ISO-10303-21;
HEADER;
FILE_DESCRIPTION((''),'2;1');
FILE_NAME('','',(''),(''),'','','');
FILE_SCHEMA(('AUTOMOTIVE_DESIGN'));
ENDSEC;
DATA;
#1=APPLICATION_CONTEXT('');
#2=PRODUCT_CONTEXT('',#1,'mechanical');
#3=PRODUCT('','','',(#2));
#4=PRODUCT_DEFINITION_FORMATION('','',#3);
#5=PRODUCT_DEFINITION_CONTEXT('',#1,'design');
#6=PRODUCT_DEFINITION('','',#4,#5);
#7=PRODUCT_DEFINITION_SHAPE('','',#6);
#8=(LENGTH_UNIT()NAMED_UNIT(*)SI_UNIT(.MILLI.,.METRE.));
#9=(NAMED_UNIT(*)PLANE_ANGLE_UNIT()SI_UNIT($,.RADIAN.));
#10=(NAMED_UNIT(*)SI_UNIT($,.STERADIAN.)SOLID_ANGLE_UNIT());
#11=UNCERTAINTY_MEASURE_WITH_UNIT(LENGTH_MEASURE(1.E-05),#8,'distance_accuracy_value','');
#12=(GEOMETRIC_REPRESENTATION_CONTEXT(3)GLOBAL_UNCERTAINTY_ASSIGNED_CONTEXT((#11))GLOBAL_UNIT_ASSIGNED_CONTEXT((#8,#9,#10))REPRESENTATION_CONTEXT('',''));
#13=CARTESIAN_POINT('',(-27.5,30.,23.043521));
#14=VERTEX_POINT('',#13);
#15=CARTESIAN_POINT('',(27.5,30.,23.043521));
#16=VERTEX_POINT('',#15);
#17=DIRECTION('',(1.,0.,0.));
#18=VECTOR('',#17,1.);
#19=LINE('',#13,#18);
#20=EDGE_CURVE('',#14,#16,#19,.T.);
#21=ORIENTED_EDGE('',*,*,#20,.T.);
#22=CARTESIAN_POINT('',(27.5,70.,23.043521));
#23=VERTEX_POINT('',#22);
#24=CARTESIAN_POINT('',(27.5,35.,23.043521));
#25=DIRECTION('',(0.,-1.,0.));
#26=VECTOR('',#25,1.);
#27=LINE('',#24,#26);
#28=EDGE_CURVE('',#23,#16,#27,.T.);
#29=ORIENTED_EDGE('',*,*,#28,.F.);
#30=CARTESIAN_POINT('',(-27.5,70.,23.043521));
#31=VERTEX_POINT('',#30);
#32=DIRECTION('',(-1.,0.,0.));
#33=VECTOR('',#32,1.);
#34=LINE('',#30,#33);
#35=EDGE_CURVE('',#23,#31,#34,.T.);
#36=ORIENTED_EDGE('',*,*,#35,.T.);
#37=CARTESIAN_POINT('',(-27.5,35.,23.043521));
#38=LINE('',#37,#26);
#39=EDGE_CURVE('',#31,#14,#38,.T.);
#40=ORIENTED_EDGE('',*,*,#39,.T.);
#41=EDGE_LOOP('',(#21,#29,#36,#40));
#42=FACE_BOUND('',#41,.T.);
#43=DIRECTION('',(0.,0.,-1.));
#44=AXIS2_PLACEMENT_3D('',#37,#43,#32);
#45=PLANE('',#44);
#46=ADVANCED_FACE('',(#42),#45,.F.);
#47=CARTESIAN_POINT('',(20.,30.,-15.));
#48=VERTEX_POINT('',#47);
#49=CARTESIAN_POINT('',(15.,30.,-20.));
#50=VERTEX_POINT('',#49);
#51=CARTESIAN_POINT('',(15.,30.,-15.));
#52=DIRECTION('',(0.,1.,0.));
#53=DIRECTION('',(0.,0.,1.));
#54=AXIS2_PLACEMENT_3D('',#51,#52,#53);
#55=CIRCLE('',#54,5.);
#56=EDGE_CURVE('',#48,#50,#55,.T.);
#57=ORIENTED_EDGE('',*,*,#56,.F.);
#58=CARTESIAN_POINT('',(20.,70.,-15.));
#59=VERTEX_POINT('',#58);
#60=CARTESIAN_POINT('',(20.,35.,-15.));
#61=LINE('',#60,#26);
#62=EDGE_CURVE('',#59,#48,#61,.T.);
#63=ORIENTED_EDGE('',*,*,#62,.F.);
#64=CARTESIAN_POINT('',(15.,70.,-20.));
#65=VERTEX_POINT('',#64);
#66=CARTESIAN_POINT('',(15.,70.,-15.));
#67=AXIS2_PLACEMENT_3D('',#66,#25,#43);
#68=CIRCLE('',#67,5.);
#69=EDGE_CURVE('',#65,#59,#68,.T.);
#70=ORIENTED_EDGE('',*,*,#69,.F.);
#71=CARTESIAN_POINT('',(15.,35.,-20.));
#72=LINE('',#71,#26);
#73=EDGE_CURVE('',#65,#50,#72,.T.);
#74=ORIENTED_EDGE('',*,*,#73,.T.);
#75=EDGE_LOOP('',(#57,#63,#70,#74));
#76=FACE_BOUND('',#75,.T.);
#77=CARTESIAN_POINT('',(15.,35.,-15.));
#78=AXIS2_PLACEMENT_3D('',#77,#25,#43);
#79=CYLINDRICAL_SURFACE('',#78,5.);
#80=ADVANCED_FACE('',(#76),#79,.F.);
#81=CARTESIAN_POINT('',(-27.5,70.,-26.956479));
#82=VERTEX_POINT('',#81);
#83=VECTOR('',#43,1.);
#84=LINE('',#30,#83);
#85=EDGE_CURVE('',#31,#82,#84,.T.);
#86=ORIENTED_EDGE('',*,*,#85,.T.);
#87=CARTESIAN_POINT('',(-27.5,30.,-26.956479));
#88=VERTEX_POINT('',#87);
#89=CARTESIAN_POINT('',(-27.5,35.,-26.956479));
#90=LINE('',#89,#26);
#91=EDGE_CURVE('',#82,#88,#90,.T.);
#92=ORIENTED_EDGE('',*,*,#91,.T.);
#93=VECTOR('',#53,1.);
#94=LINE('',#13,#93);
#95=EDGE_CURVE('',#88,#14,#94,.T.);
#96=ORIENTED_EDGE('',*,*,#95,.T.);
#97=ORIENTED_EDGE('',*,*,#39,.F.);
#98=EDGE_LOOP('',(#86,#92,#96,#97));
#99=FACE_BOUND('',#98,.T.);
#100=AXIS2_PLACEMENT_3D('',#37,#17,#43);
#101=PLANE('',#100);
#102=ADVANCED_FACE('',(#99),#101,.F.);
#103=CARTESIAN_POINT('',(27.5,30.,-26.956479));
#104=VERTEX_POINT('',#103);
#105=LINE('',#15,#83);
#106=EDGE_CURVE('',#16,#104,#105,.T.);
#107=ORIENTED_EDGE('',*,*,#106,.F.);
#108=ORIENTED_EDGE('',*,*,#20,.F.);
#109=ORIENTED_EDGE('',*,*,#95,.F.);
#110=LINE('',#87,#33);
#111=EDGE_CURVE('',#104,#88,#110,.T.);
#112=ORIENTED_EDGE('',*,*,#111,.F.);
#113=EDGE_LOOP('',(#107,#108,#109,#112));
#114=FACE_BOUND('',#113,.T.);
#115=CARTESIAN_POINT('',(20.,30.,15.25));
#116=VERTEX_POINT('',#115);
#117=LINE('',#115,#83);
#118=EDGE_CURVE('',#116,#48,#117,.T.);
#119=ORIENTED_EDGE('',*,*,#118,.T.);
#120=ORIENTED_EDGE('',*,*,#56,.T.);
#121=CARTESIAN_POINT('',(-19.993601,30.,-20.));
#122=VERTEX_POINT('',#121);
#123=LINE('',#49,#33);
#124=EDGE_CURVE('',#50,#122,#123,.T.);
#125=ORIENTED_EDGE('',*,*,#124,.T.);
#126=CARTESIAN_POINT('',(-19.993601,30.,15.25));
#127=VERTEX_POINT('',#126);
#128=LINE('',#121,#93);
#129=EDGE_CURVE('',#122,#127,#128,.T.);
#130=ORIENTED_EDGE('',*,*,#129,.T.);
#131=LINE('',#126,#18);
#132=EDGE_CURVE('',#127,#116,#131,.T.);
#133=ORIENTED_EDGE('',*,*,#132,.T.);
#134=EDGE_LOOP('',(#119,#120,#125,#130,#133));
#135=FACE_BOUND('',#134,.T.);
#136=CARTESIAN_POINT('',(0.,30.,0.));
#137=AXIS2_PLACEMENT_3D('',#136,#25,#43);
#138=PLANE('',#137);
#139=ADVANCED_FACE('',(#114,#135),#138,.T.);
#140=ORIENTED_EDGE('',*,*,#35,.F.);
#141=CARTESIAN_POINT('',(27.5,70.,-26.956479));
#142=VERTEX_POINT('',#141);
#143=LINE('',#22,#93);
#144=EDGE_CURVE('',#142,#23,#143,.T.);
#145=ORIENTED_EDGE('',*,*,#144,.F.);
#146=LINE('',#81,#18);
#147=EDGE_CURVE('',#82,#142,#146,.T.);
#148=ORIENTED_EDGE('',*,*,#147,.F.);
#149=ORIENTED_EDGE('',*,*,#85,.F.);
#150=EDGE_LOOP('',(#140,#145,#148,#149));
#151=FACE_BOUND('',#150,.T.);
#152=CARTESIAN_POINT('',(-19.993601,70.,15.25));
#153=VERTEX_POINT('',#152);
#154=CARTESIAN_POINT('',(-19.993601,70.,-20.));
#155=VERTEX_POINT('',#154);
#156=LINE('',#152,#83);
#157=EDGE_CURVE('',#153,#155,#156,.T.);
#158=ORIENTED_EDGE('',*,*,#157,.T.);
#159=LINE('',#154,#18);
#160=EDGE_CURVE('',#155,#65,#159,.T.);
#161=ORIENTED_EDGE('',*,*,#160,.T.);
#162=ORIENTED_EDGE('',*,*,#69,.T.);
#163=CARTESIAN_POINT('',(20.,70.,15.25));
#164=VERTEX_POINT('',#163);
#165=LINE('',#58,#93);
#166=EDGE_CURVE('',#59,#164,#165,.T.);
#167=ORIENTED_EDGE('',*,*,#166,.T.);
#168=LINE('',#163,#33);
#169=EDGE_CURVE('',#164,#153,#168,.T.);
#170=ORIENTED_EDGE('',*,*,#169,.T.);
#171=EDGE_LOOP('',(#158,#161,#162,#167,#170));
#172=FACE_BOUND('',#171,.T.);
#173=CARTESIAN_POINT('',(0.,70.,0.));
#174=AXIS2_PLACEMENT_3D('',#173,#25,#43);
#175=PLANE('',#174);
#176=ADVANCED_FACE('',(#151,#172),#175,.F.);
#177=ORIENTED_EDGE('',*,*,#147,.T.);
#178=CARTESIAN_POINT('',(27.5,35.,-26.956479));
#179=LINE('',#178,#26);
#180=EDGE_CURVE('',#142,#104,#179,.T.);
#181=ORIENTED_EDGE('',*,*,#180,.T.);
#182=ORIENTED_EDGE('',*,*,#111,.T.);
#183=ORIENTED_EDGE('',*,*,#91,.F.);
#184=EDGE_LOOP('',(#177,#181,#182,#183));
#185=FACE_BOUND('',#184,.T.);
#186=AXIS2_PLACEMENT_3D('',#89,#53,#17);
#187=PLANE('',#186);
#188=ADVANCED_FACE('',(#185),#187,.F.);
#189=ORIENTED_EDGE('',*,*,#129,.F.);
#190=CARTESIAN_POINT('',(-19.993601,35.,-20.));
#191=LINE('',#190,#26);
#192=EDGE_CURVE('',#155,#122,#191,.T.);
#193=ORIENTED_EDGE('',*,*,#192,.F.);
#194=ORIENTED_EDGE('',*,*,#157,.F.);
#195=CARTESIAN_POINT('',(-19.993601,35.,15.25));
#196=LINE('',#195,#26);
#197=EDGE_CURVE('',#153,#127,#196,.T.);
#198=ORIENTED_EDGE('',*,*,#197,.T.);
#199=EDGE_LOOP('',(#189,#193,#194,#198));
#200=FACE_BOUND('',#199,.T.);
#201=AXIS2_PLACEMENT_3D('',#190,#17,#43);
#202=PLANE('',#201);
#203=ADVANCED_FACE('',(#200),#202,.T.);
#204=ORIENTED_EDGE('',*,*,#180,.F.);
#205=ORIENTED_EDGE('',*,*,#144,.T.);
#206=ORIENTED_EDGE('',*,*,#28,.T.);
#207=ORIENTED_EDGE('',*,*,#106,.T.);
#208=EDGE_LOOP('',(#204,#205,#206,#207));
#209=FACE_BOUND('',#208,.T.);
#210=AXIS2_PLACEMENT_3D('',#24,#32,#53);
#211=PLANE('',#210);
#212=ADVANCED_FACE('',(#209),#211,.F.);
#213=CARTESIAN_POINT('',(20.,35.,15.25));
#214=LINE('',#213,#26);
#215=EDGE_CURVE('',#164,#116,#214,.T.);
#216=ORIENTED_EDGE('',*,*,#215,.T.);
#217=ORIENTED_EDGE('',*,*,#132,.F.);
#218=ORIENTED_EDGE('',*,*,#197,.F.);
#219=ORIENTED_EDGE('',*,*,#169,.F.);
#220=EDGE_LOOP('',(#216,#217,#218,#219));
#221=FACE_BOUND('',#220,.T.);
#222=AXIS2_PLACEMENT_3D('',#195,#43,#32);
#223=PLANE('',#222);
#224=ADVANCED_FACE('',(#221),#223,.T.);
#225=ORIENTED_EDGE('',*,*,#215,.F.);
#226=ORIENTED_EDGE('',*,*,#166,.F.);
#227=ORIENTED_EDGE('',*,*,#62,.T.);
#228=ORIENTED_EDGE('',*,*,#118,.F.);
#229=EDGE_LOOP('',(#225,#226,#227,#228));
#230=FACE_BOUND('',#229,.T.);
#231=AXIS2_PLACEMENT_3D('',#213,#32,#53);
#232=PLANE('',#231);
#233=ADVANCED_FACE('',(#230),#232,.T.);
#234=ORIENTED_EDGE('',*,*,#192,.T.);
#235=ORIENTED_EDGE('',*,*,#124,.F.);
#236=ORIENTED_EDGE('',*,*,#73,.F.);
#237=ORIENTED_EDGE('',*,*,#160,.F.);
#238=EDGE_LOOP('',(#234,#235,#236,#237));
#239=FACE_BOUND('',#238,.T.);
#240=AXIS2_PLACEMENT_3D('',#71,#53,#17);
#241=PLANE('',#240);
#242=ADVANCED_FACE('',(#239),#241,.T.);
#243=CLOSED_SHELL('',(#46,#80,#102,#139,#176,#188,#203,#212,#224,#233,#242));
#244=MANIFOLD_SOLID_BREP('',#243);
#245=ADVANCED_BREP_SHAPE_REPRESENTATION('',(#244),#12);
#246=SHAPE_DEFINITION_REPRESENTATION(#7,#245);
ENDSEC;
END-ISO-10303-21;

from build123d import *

# Parameters (mm, degrees)
CROQUIS1_R                              = 15.25
CROQUIS1_R_2                            = 2.125
SOPORTE_CAJA_REDUCTORA_DEPTH            = 20
CROQUIS3_R                              = 2.125
CORTAR_EXTRUIR1_DEPTH                   = 51.423828692
REDONDEO1_R                             = 5
BOSS_EXTRUDE1_DEPTH                     = 20
CUT_EXTRUDE1_REACH                      = 55.852
SKETCH2_R                               = 1.625
CUT_EXTRUDE2_DEPTH                      = 2
SKETCH4_R                               = 1.625
CUT_EXTRUDE3_DEPTH                      = 63.291652731
CUT_EXTRUDE4_START                      = -4.5
CUT_EXTRUDE4_DEPTH                      = 2
CROQUIS6_W                              = 4.75
CROQUIS6_H                              = 4.75
CORTAR_EXTRUIR17_DEPTH                  = 42.231056256
CROQUIS7_W                              = 60
CROQUIS7_H                              = 20
CORTAR_EXTRUIR18_DEPTH                  = 51.423828692
SALIENTE_EXTRUIR2_DEPTH                 = 49
SOPORTE_START                           = -15
SOPORTE_MOTOR_DEPTH                     = 15
CROQUIS12_R                             = 2.125
AGUJEROS_DE_SUJECION_A_BASE_DEPTH       = 84.087679592
TUERCA_START                            = -4
TUERCA_AGUJERO_DE_SUJECION_A_BASE_DEPTH = 10
SALIENTE_EXTRUIR4_DEPTH                 = 15
CORTAR_EXTRUIR19_DEPTH                  = 25
CROQUIS14_W                             = 50
CROQUIS14_H                             = 118
CORTAR_EXTRUIR22_DEPTH                  = 146.556045907
CROQUIS15_W                             = 10
CROQUIS15_H                             = 7
CORTAR_EXTRUIR23_DEPTH                  = 42.231056256
CORTAR_EXTRUIR24_DEPTH                  = 42.231056256
CROQUIS18_W                             = 40
CROQUIS18_H                             = 10
CORTAR_EXTRUIR25_DEPTH                  = 44.27311521
SALIENTE_EXTRUIR5_DEPTH                 = 10
CROQUIS20_R                             = 1
CORTAR_EXTRUIR26_DEPTH                  = 49.229270158
CORTAR_EXTRUIR27_REACH                  = 62.959
CORTAR_EXTRUIR27_END_RADIUS             = 15.25
CROQUIS21_R                             = 1.625
CROQUIS22_R                             = 2.125
CROQUIS22_R_2                           = 1
SALIENTE_EXTRUIR6_DEPTH                 = 10
CROQUIS23_R                             = 1.625
CORTAR_EXTRUIR28_DEPTH                  = 52.269508521
CORTAR_EXTRUIR29_START                  = -3
CORTAR_EXTRUIR29_DEPTH                  = 10
SALIENTE_EXTRUIR7_DEPTH                 = 10
CORTAR_EXTRUIR30_REACH                  = 72.235
CROQUIS27_R                             = 1.625
CORTAR_EXTRUIR31_REACH                  = 75.235
CORTAR_EXTRUIR31_START                  = -3
CORTAR_EXTRUIR32_REACH                  = 58.612
CROQUIS29_R                             = 1.625
CORTAR_EXTRUIR33_REACH                  = 61.112
CORTAR_EXTRUIR33_START                  = -2.5
CROQUIS35_W                             = 13.305418987
CROQUIS35_H                             = 6.826864192
CORTAR_EXTRUIR34_DEPTH                  = 63.931555098
CORTAR_EXTRUIR34_DEPTH_BACK             = 63.931555098
CORTAR_EXTRUIR35_START                  = -3
CORTAR_EXTRUIR35_DEPTH                  = 10
SALIENTE_EXTRUIR8_DEPTH                 = 10
SALIENTE_EXTRUIR9_DEPTH                 = 13
SALIENTE_EXTRUIR10_DEPTH                = 3
CROQUIS40_W                             = 106.583537839
CROQUIS40_H                             = 47.391515964
CORTAR_EXTRUIR36_DEPTH                  = 80.887064817
CORTAR_EXTRUIR36_DEPTH_BACK             = 80.887064817
CORTAR_EXTRUIR37_DEPTH                  = 67.2524009
CORTAR_EXTRUIR37_DEPTH_BACK             = 67.2524009
CORTAR_EXTRUIR38_DEPTH                  = 79.704784639
CORTAR_EXTRUIR38_DEPTH_BACK             = 79.704784639
SALIENTE_EXTRUIR11_DEPTH                = 10
CORTAR_EXTRUIR39_DEPTH                  = 63.9908649
CROQUIS45_W                             = 31.470301378
CROQUIS45_H                             = 10
CROQUIS45_R                             = 1.625
SALIENTE_EXTRUIR12_DEPTH                = 2.5
SALIENTE_EXTRUIR13_DEPTH                = 10
CORTAR_EXTRUIR40_START                  = -2
CROQUIS47_R                             = 1.625
CORTAR_EXTRUIR40_DEPTH                  = 10
CORTAR_EXTRUIR41_START                  = -12
CROQUIS48_R                             = 1.625
CORTAR_EXTRUIR41_DEPTH                  = 12
CROQUIS49_W                             = 34.796066513
CROQUIS49_H                             = 42.211026982
CORTAR_EXTRUIR42_DEPTH                  = 52.795622989
CORTAR_EXTRUIR42_DEPTH_BACK             = 52.795622989
CROQUIS51_R                             = 15.25
CROQUIS51_R_2                           = 14.25
SALIENTE_EXTRUIR14_DEPTH                = 10
CORTAR_EXTRUIR43_DEPTH                  = 10
CORTAR_EXTRUIR44_DEPTH                  = 10
CORTAR_EXTRUIR45_DEPTH                  = 10
SALIENTE_EXTRUIR15_DEPTH                = 10
CROQUIS56_W                             = 55
CROQUIS56_H                             = 50
SALIENTE_EXTRUIR16_DEPTH                = 5
CROQUIS57_W                             = 42.651963039
CROQUIS57_H                             = 12.802181648
CORTAR_EXTRUIR46_DEPTH                  = 71.545387859
CORTAR_EXTRUIR46_DEPTH_BACK             = 71.545387859
CROQUIS58_R                             = 2.125
CORTAR_EXTRUIR47_DEPTH                  = 5
CROQUIS59_W                             = 55
CROQUIS59_H                             = 50
SALIENTE_EXTRUIR17_DEPTH                = 40


with BuildPart() as part:
    # Croquis1 → Soporte caja reductora (new body)
    with BuildSketch(Plane(origin=(0, 0, 0), x_dir=(1, 0, 0), z_dir=(0, 1, 0))):
        Polygon((-30, -15.25), (-20, -15.25), (-20, -20), (20, -20), (20, -15.25), (30, -15.25), (30, -7.25), (20, -4.25), (20, 20), (-20, 20), (-20, -4.25), (-30, -7.25), align=None)
        with Locations(Location((0, 0, 0), (0, 0, 270))):
            Circle(CROQUIS1_R, mode=Mode.SUBTRACT)
        with Locations(Location((-15, 15, 0), (0, 0, 270))):
            Circle(CROQUIS1_R_2, mode=Mode.SUBTRACT)
        with Locations(Location((15, 15, 0), (0, 0, 270))):
            Circle(CROQUIS1_R_2, mode=Mode.SUBTRACT)
    extrude(amount=-SOPORTE_CAJA_REDUCTORA_DEPTH)

    # Croquis3 → Cortar-Extruir1 (cut, through all)
    with BuildSketch(Plane.XY.offset(15.25)):
        with Locations((-23.5, -10)):
            Circle(CROQUIS3_R)
        with Locations((23.5, -10)):
            Circle(CROQUIS3_R)
    extrude(amount=-CORTAR_EXTRUIR1_DEPTH, mode=Mode.SUBTRACT)

    # Redondeo1
    redondeo1_edges = [part.edges().sort_by_distance(p)[0] for p in [
        (-20, -10, -20),
        (20, -10, -20),
    ]]
    fillet(redondeo1_edges, radius=REDONDEO1_R)

    # Sketch1 → Boss-Extrude1 (add)
    with BuildSketch(Plane(origin=(0, 0, 0), x_dir=(1, 0, 0), z_dir=(0, 1, 0))):
        with BuildLine():
            Line((25.5, 15), (20, 15))
            ThreePointArc((20, 15), (18.535533906, 18.535533906), (15, 20))
            Line((15, 20), (30, 20))
            Line((30, 20), (30, 8))
            Line((30, 8), (25.5, 8))
            Line((25.5, 8), (25.5, 15))
        make_face()
    extrude(amount=-BOSS_EXTRUDE1_DEPTH)

    # Sketch2 → Cut-Extrude1 (cut, up to next)
    with BuildSketch(Plane(origin=(0, 0, -20), x_dir=(-1, 0, 0), z_dir=(0, 0, -1)), mode=Mode.PRIVATE) as cut_extrude1_sk1:
        with Locations((-22.75, -10)):
            Circle(SKETCH2_R)
    cut_extrude1_tool1 = extrude(cut_extrude1_sk1.sketch, amount=-CUT_EXTRUDE1_REACH, mode=Mode.PRIVATE) & part.part
    add(cut_extrude1_tool1.solids().sort_by_distance((22.75, -10, -20))[0], mode=Mode.SUBTRACT)

    # Sketch3 → Cut-Extrude2 (cut)
    with BuildSketch(Plane.XY.offset(-15)):
        Polygon((20, -11.58771324), (22.75, -13.175426481), (25.5, -11.58771324), (25.5, -8.41228676), (22.75, -6.824573519), (20, -8.41228676), align=None)
    extrude(amount=-CUT_EXTRUDE2_DEPTH, mode=Mode.SUBTRACT)

    # Sketch4 → Cut-Extrude3 (cut, through all)
    with BuildSketch(Plane.ZY.offset(-25.5)):
        with Locations((-12.25, -10)):
            Circle(SKETCH4_R)
    extrude(amount=-CUT_EXTRUDE3_DEPTH, mode=Mode.SUBTRACT)

    # Sketch5 → Cut-Extrude4 (cut)
    with BuildSketch(Plane(origin=(30, 0, 0), x_dir=(0, 0, -1), z_dir=(1, 0, 0)).offset(CUT_EXTRUDE4_START)):
        Polygon((15, -11.58771324), (15, -8.41228676), (12.25, -6.824573519), (9.5, -8.41228676), (9.5, -11.58771324), (12.25, -13.175426481), align=None)
    extrude(amount=CUT_EXTRUDE4_DEPTH, mode=Mode.SUBTRACT)

    # Croquis6 → Cortar-Extruir17 (cut, through all)
    with BuildSketch(Plane(origin=(0, 0, 0), x_dir=(1, 0, 0), z_dir=(0, 1, 0))):
        Polygon((0, -15.25), (-15.25, -15.25), (-15.25, -20), (15.25, -20), (15.25, -15.25), align=None)
        with Locations((-17.625, -17.625)):
            Rectangle(CROQUIS6_W, CROQUIS6_H)
        with BuildLine():
            ThreePointArc((0, -15.25), (-10.783378413, -10.783378413), (-15.25, 0))
            Line((-15.25, 0), (-15.25, -15.25))
            Line((-15.25, -15.25), (0, -15.25))
        make_face()
        with BuildLine():
            Line((15.25, -15.25), (15.25, 0))
            ThreePointArc((15.25, 0), (10.783378413, -10.783378413), (0, -15.25))
            Line((0, -15.25), (15.25, -15.25))
        make_face()
        with Locations((17.625, -17.625)):
            Rectangle(CROQUIS6_W, CROQUIS6_H)
    extrude(amount=-CORTAR_EXTRUIR17_DEPTH, mode=Mode.SUBTRACT)


with BuildPart() as body_2:
    # Simetría1: mirrored copy
    add(part.part.mirror(Plane.ZX))

    # Croquis8 → Saliente-Extruir2 (add)
    with BuildSketch(Plane(origin=(0, 20, 0), x_dir=(1, 0, 0), z_dir=(0, 1, 0))):
        with BuildLine():
            Line((-12.664515522, 20), (-11.040489496, 13.939052358))
            Line((-11.040489496, 13.939052358), (-10.315162126, 11.232093763))
            ThreePointArc((-10.315162126, 11.232093763), (0, 15.25), (10.315162126, 11.232093763))
            Line((10.315162126, 11.232093763), (10.817418481, 13.87928066))
            Line((10.817418481, 13.87928066), (11.978715476, 20))
            Line((11.978715476, 20), (-12.664515522, 20))
        make_face()
    extrude(amount=SALIENTE_EXTRUIR2_DEPTH)

    # Croquis9 → Soporte motor (add)
    with BuildSketch(Plane(origin=(0, 69, 0), x_dir=(1, 0, 0), z_dir=(0, 1, 0)).offset(SOPORTE_START)):
        with BuildLine():
            Line((-20, 15), (-20, -4.25))
            Line((-20, -4.25), (-30, -7.25))
            Line((-30, -7.25), (-30, -15.25))
            Line((-30, -15.25), (0, -15.25))
            Line((0, -15.25), (0, -14.75))
            ThreePointArc((0, -14.75), (-10.429825023, 10.429825023), (14.75, 0))
            Line((14.75, 0), (20, 0))
            Line((20, 0), (20, 13.936837101))
            Line((20, 13.936837101), (12.664515522, 20))
            Line((12.664515522, 20), (-15, 20))
            ThreePointArc((-15, 20), (-18.535533906, 18.535533906), (-20, 15))
        make_face()
    extrude(amount=-SOPORTE_MOTOR_DEPTH)

    # Croquis12 → Agujeros de sujecion a base (cut, through all)
    with BuildSketch(Plane.XY.offset(15.25)):
        with Locations((-23.5, 46.5)):
            Circle(CROQUIS12_R)
    extrude(amount=-AGUJEROS_DE_SUJECION_A_BASE_DEPTH, mode=Mode.SUBTRACT)

    # Croquis13 → Tuerca Agujero de sujecion a base (cut)
    with BuildSketch(Plane.XY.offset(15.25).offset(TUERCA_START)):
        Polygon((-20, 44.479274058), (-20, 48.520725942), (-23.5, 50.541451884), (-27, 48.520725942), (-27, 44.479274058), (-23.5, 42.458548116), align=None)
    extrude(amount=-TUERCA_AGUJERO_DE_SUJECION_A_BASE_DEPTH, mode=Mode.SUBTRACT)

    # Croquis10 → Saliente-Extruir4 (add)
    with BuildSketch(Plane(origin=(0, 69, 0), x_dir=(1, 0, 0), z_dir=(0, 1, 0))):
        with BuildLine():
            ThreePointArc((10.315162126, 11.232093763), (0, 15.25), (-10.315162126, 11.232093763))
            Line((-10.315162126, 11.232093763), (-10.16850369, 10.684757026))
            ThreePointArc((-10.16850369, 10.684757026), (0, 14.75), (10.16850369, 10.684757026))
            Line((10.16850369, 10.684757026), (10.315162126, 11.232093763))
        make_face()
    extrude(amount=-SALIENTE_EXTRUIR4_DEPTH)

    # Croquis11 → Cortar-Extruir19 (cut)
    with BuildSketch(Plane.XZ):
        with BuildLine():
            Line((15.25, 4.25), (20, 4.25))
            Line((20, 4.25), (21.972856468, 4.84185694))
            ThreePointArc((21.972856468, 4.84185694), (19.948931102, 10.40625523), (16.543503257, 15.25))
            Line((16.543503257, 15.25), (15.25, 15.25))
            Line((15.25, 15.25), (15.25, 4.25))
        make_face()
        with BuildLine():
            Line((21.972856468, 4.84185694), (30, 7.25))
            Line((30, 7.25), (30, 15.25))
            Line((30, 15.25), (16.543503257, 15.25))
            ThreePointArc((16.543503257, 15.25), (19.948931102, 10.40625523), (21.972856468, 4.84185694))
        make_face()
        with BuildLine():
            ThreePointArc((20, -15), (18.535533906, -18.535533906), (15, -20))
            Line((15, -20), (30, -20))
            Line((30, -20), (30, -8))
            Line((30, -8), (25.5, -8))
            Line((25.5, -8), (25.5, -15))
            Line((25.5, -15), (20, -15))
        make_face()
    extrude(amount=-CORTAR_EXTRUIR19_DEPTH, mode=Mode.SUBTRACT)

    # Simetría2: body 2 across face


with BuildPart() as part_1:
    add(part.part)

    # Croquis7 → Cortar-Extruir18 (cut, through all)
    with BuildSketch(Plane(origin=(0, 0, -20), x_dir=(-1, 0, 0), z_dir=(0, 0, -1))):
        with Locations((0, -10)):
            Rectangle(CROQUIS7_W, CROQUIS7_H)
    extrude(amount=-CORTAR_EXTRUIR18_DEPTH, mode=Mode.SUBTRACT)


with BuildPart() as body_2_1:
    add(body_2.part)
    add(body_2.part.mirror(Plane(origin=(-0.229209569, 69, -16.663998028), x_dir=(0, 0, 1), z_dir=(0, 1, 0))))

    # Croquis14 → Cortar-Extruir22 (cut, through all)
    with BuildSketch(Plane.XY.offset(15.25)):
        with Locations((-5, 79)):
            Rectangle(CROQUIS14_W, CROQUIS14_H)
    extrude(amount=-CORTAR_EXTRUIR22_DEPTH, mode=Mode.SUBTRACT)

    # Croquis15 → Cortar-Extruir23 (cut, through all)
    with BuildSketch(Plane.XZ):
        with Locations((-25, 7.75)):
            Rectangle(CROQUIS15_W, CROQUIS15_H)
    extrude(amount=-CORTAR_EXTRUIR23_DEPTH, mode=Mode.SUBTRACT)

    # Croquis16 → Cortar-Extruir24 (cut, through all)
    with BuildSketch(Plane.XZ):
        Polygon((-30, 15.25), (-15.25, 15.25), (-15.25, 12.75), (-20, 12.75), (-20, 11.25), (-30, 11.25), (-30, 12.75), align=None)
    extrude(amount=-CORTAR_EXTRUIR24_DEPTH, mode=Mode.SUBTRACT)

    # Croquis18 → Cortar-Extruir25 (cut, through all)
    with BuildSketch(Plane(origin=(0, 0, -20), x_dir=(-1, 0, 0), z_dir=(0, 0, -1))):
        with Locations((0, 5)):
            Rectangle(CROQUIS18_W, CROQUIS18_H)
    extrude(amount=-CORTAR_EXTRUIR25_DEPTH, mode=Mode.SUBTRACT)

    # Croquis19 → Saliente-Extruir5 (add)
    with BuildSketch(Plane(origin=(0, 20, 0), x_dir=(1, 0, 0), z_dir=(0, 1, 0))):
        Polygon((-20, -12.75), (-34, -12.75), (-34, -7.75), (-24, -7.75), (-20, -3.75), align=None)
    extrude(amount=-SALIENTE_EXTRUIR5_DEPTH)

    # Croquis20 → Cortar-Extruir26 (cut, through all)
    with BuildSketch(Plane(origin=(0, 0, 7.75), x_dir=(-1, 0, 0), z_dir=(0, 0, -1))):
        with Locations((29, 15)):
            Circle(CROQUIS20_R)
    extrude(amount=-CORTAR_EXTRUIR26_DEPTH, mode=Mode.SUBTRACT)

    # Cortar-Extruir27: up to this cylinder (the profile starts outside it)
    cortar_extruir27_end = Plane(origin=(0, 15, 0), z_dir=(0, -1, 0)) * Cylinder(CORTAR_EXTRUIR27_END_RADIUS, 157.418, mode=Mode.PRIVATE)
    # Croquis21 → Cortar-Extruir27 (cut, up to the surface)
    with BuildSketch(Plane(origin=(20, 0, 0), x_dir=(0, 0, -1), z_dir=(1, 0, 0)), mode=Mode.PRIVATE) as cortar_extruir27_sk1:
        with Locations((4.75, 15)):
            Circle(CROQUIS21_R)
    cortar_extruir27_tool1 = extrude(cortar_extruir27_sk1.sketch, amount=-CORTAR_EXTRUIR27_REACH, mode=Mode.PRIVATE) - cortar_extruir27_end
    add(cortar_extruir27_tool1.solids().sort_by_distance((20, 15, -4.75))[0], mode=Mode.SUBTRACT)

    # Croquis22 → Saliente-Extruir6 (add)
    with BuildSketch(Plane.XZ.offset(-10)):
        with Locations((-15, -15)):
            Circle(CROQUIS22_R)
        with Locations(Location((-15, -15, 0), (0, 0, 270))):
            Circle(CROQUIS22_R_2, mode=Mode.SUBTRACT)
        with Locations((15, -15)):
            Circle(CROQUIS22_R)
        with Locations(Location((15, -15, 0), (0, 0, 270))):
            Circle(CROQUIS22_R_2, mode=Mode.SUBTRACT)
    extrude(amount=-SALIENTE_EXTRUIR6_DEPTH)

    # Croquis23 → Cortar-Extruir28 (cut, through all)
    with BuildSketch(Plane(origin=(0, 0, -20), x_dir=(-1, 0, 0), z_dir=(0, 0, -1))):
        with Locations((0, 15)):
            Circle(CROQUIS23_R)
    extrude(amount=-CORTAR_EXTRUIR28_DEPTH, mode=Mode.SUBTRACT)

    # Croquis24 → Cortar-Extruir29 (cut)
    with BuildSketch(Plane(origin=(0, 0, -20), x_dir=(-1, 0, 0), z_dir=(0, 0, -1)).offset(CORTAR_EXTRUIR29_START)):
        Polygon((1.58771324, 12.25), (3.175426481, 15), (1.58771324, 17.75), (-1.58771324, 17.75), (-3.175426481, 15), (-1.58771324, 12.25), align=None)
    extrude(amount=-CORTAR_EXTRUIR29_DEPTH, mode=Mode.SUBTRACT)

    # Croquis26 → Saliente-Extruir7 (add)
    with BuildSketch(Plane.XZ.offset(-10)):
        Polygon((-34, 7.75), (-34, 12.75), (-58.825, 12.75), (-39.160527763, -4.104491148), (-20, -4.104491148), (-20, -0.104491148), (-35.732113118, -0.104491148), (-29, 7.75), align=None)
        Polygon((-34.268209086, 7.75), (-39.594516123, 1.535690951), (-46.844874897, 7.75), align=None, mode=Mode.SUBTRACT)
    extrude(amount=-SALIENTE_EXTRUIR7_DEPTH)

    # Croquis27 → Cortar-Extruir30 (cut, up to next)
    with BuildSketch(Plane.XY.offset(12.75), mode=Mode.PRIVATE) as cortar_extruir30_sk1:
        with Locations((-40.544874897, 15)):
            Circle(CROQUIS27_R)
    cortar_extruir30_tool1 = extrude(cortar_extruir30_sk1.sketch, amount=-CORTAR_EXTRUIR30_REACH, mode=Mode.PRIVATE) & body_2_1.part
    # Croquis27 → Cortar-Extruir30 (cut, up to next)
    with BuildSketch(Plane.XY.offset(12.75), mode=Mode.PRIVATE) as cortar_extruir30_sk2:
        with Locations((-29, 15)):
            Circle(CROQUIS27_R)
    cortar_extruir30_tool2 = extrude(cortar_extruir30_sk2.sketch, amount=-CORTAR_EXTRUIR30_REACH, mode=Mode.PRIVATE) & body_2_1.part
    add(cortar_extruir30_tool1.solids().sort_by_distance((-40.544875, 15, 12.75))[0], mode=Mode.SUBTRACT)
    add(cortar_extruir30_tool2.solids().sort_by_distance((-29, 15, 12.75))[0], mode=Mode.SUBTRACT)

    # Croquis28 → Cortar-Extruir31 (cut, up to next)
    with BuildSketch(Plane.XY.offset(12.75).offset(CORTAR_EXTRUIR31_START), mode=Mode.PRIVATE) as cortar_extruir31_sk1:
        Polygon((-38.957161657, 12.25), (-37.369448416, 15), (-38.957161657, 17.75), (-42.132588137, 17.75), (-43.720301378, 15), (-42.132588137, 12.25), align=None)
    cortar_extruir31_tool1 = extrude(cortar_extruir31_sk1.sketch, amount=-CORTAR_EXTRUIR31_REACH, mode=Mode.PRIVATE) & body_2_1.part
    # Croquis28 → Cortar-Extruir31 (cut, up to next)
    with BuildSketch(Plane.XY.offset(12.75).offset(CORTAR_EXTRUIR31_START), mode=Mode.PRIVATE) as cortar_extruir31_sk2:
        Polygon((-27.41228676, 12.25), (-25.824573519, 15), (-27.41228676, 17.75), (-30.58771324, 17.75), (-32.175426481, 15), (-30.58771324, 12.25), align=None)
    cortar_extruir31_tool2 = extrude(cortar_extruir31_sk2.sketch, amount=-CORTAR_EXTRUIR31_REACH, mode=Mode.PRIVATE) & body_2_1.part
    add(cortar_extruir31_tool1.solids().sort_by_distance((-40.544875, 15, 9.75))[0], mode=Mode.SUBTRACT)
    add(cortar_extruir31_tool2.solids().sort_by_distance((-29, 15, 9.75))[0], mode=Mode.SUBTRACT)

    # Croquis29 → Cortar-Extruir32 (cut, up to next)
    with BuildSketch(Plane(origin=(-18.612848159, 0, -21.715982563), x_dir=(-0.7592713073348843, 0, 0.6507742172658468), z_dir=(-0.6507742172658468, 0, -0.7592713073348843)), mode=Mode.PRIVATE) as cortar_extruir32_sk1:
        with Locations((33.812368097, 15)):
            Circle(CROQUIS29_R)
    cortar_extruir32_tool1 = extrude(cortar_extruir32_sk1.sketch, amount=-CORTAR_EXTRUIR32_REACH, mode=Mode.PRIVATE) & body_2_1.part
    add(cortar_extruir32_tool1.solids().sort_by_distance((-44.285609, 15, 0.288235))[0], mode=Mode.SUBTRACT)

    # Croquis31 → Cortar-Extruir33 (cut, up to next)
    with BuildSketch(Plane(origin=(-18.612848159, 0, -21.715982563), x_dir=(-0.7592713073348843, 0, 0.6507742172658468), z_dir=(-0.6507742172658468, 0, -0.7592713073348843)).offset(CORTAR_EXTRUIR33_START), mode=Mode.PRIVATE) as cortar_extruir33_sk1:
        Polygon((36.562368097, 16.58771324), (33.812368097, 18.175426481), (31.062368097, 16.58771324), (31.062368097, 13.41228676), (33.812368097, 11.824573519), (36.562368097, 13.41228676), align=None)
    cortar_extruir33_tool1 = extrude(cortar_extruir33_sk1.sketch, amount=-CORTAR_EXTRUIR33_REACH, mode=Mode.PRIVATE) & body_2_1.part
    add(cortar_extruir33_tool1.solids().sort_by_distance((-42.658674, 15, 2.186413))[0], mode=Mode.SUBTRACT)

    # Croquis35 → Cortar-Extruir34 (cut, two sides)
    with BuildSketch(Plane(origin=(0, 20, 0), x_dir=(1, 0, 0), z_dir=(0, 1, 0))) as cortar_extruir34_sk:
        with Locations((17.04227466, -3.413432096)):
            Rectangle(CROQUIS35_W, CROQUIS35_H)
    extrude(amount=CORTAR_EXTRUIR34_DEPTH, mode=Mode.SUBTRACT)
    extrude(cortar_extruir34_sk.sketch, amount=-CORTAR_EXTRUIR34_DEPTH_BACK, mode=Mode.SUBTRACT)

    # Croquis36 → Cortar-Extruir35 (cut)
    with BuildSketch(Plane(origin=(20, 0, 0), x_dir=(0, 0, -1), z_dir=(1, 0, 0)).offset(CORTAR_EXTRUIR35_START)):
        Polygon((7.5, 16.58771324), (4.75, 18.175426481), (2, 16.58771324), (2, 13.41228676), (4.75, 11.824573519), (7.5, 13.41228676), align=None)
    extrude(amount=-CORTAR_EXTRUIR35_DEPTH, mode=Mode.SUBTRACT)

    # Croquis37 → Saliente-Extruir8 (add)
    with BuildSketch(Plane.XZ.offset(-10)):
        Polygon((-39.160527763, -4.104491148), (-20.614919368, -20), (-15, -20), (-19.558128305, -15.637570403), (-33.014002756, -4.104491148), align=None)
    extrude(amount=-SALIENTE_EXTRUIR8_DEPTH)

    # Croquis38 → Saliente-Extruir9 (add)
    with BuildSketch(Plane.XZ.offset(-10)):
        Polygon((-58.825, 12.75), (-38.825, 12.75), (-38.825, 9.75), (-55.324839942, 9.75), align=None)
    extrude(amount=SALIENTE_EXTRUIR9_DEPTH)

    # Croquis39 → Saliente-Extruir10 (add)
    with BuildSketch(Plane.XZ.offset(-10)):
        Polygon((-38.825, 9.75), (-38.825, 7.75), (-38.825, 5.75), (-50.657959865, 5.75), (-52.991399903, 7.75), (-55.324839942, 9.75), align=None)
    extrude(amount=SALIENTE_EXTRUIR10_DEPTH)

    # Simetría3: body 2 across face


with BuildPart() as body_2_2:
    add(body_2_1.part)
    add(body_2_1.part.mirror(Plane(origin=(-18.003999227, 20, -4.220503046), x_dir=(0, 0, 1), z_dir=(0, 1, 0))))

    # Croquis40 → Cortar-Extruir36 (cut, two sides)
    with BuildSketch(Plane(origin=(0, 0, -20), x_dir=(-1, 0, 0), z_dir=(0, 0, -1))) as cortar_extruir36_sk:
        with Locations((22.395502026, -3.695757982)):
            Rectangle(CROQUIS40_W, CROQUIS40_H)
    extrude(amount=CORTAR_EXTRUIR36_DEPTH, mode=Mode.SUBTRACT)
    extrude(cortar_extruir36_sk.sketch, amount=-CORTAR_EXTRUIR36_DEPTH_BACK, mode=Mode.SUBTRACT)

    # Croquis41 → Cortar-Extruir37 (cut, two sides)
    with BuildSketch(Plane.XZ.offset(-20)) as cortar_extruir37_sk:
        Polygon((-19.992980133, -22.302484261), (-20, 3.75), (-24, 7.75), (-56.035110209, 7.75), align=None)
    extrude(amount=CORTAR_EXTRUIR37_DEPTH, mode=Mode.SUBTRACT)
    extrude(cortar_extruir37_sk.sketch, amount=-CORTAR_EXTRUIR37_DEPTH_BACK, mode=Mode.SUBTRACT)

    # Croquis42 → Cortar-Extruir38 (cut, two sides)
    with BuildSketch(Plane(origin=(0, 0, 9.75), x_dir=(-1, 0, 0), z_dir=(0, 0, -1))) as cortar_extruir38_sk:
        Polygon((46.720301378, 20), (46.720301378, 30), (38.825, 30), (33.492952769, 43.760628779), (49.525340398, 48.951442806), (67.200390695, 42.512205152), (65.906601328, 20), (51.713995885, 13.864168239), align=None)
    extrude(amount=CORTAR_EXTRUIR38_DEPTH, mode=Mode.SUBTRACT)
    extrude(cortar_extruir38_sk.sketch, amount=-CORTAR_EXTRUIR38_DEPTH_BACK, mode=Mode.SUBTRACT)

    # Croquis43 → Saliente-Extruir11 (add)
    with BuildSketch(Plane.XZ.offset(-20)):
        Polygon((-19.993600539, -20), (-46.720301378, 7.75), (-43.839252857, 10.524807997), (-17.112552018, -17.225192003), align=None)
    extrude(amount=-SALIENTE_EXTRUIR11_DEPTH)

    # Croquis44 → Cortar-Extruir39 (cut, through all)
    with BuildSketch(Plane(origin=(0, 0, 9.75), x_dir=(-1, 0, 0), z_dir=(0, 0, -1))):
        Polygon((38.957161657, 27.75), (37.369448416, 25), (38.957161657, 22.25), (42.132588137, 22.25), (43.720301378, 25), (42.132588137, 27.75), align=None)
    extrude(amount=CORTAR_EXTRUIR39_DEPTH, mode=Mode.SUBTRACT)

    # Croquis45 → Saliente-Extruir12 (add)
    with BuildSketch(Plane.XY.offset(12.75)):
        with Locations((-30.985150689, 25)):
            Rectangle(CROQUIS45_W, CROQUIS45_H)
        with Locations((-40.544874897, 25)):
            Circle(CROQUIS45_R, mode=Mode.SUBTRACT)
        with Locations((-29, 25)):
            Circle(CROQUIS45_R, mode=Mode.SUBTRACT)
    extrude(amount=SALIENTE_EXTRUIR12_DEPTH)

    # Croquis46 → Saliente-Extruir13 (add)
    with BuildSketch(Plane.XZ.offset(-20)):
        with BuildLine():
            Line((15.25, 0), (20, 0))
            Line((20, 0), (20, 15.25))
            Line((20, 15.25), (7.549834435, 15.25))
            Line((7.549834435, 15.25), (7.549834435, 13.25))
            ThreePointArc((7.549834435, 13.25), (13.185171124, 7.662490615), (15.25, 0))
        make_face()
        with BuildLine():
            Line((-15.25, 0), (-15.25, 15.25))
            Line((-15.25, 15.25), (-7.549834435, 15.25))
            Line((-7.549834435, 15.25), (-7.549834435, 13.25))
            ThreePointArc((-7.549834435, 13.25), (-13.185171124, 7.662490615), (-15.25, 0))
        make_face()
    extrude(amount=-SALIENTE_EXTRUIR13_DEPTH)

    # Croquis47 → Cortar-Extruir40 (cut)
    with BuildSketch(Plane.XY.offset(15.25).offset(CORTAR_EXTRUIR40_START)):
        Polygon((15.41228676, 22.352505966), (17, 25.102505966), (15.41228676, 27.852505966), (12.236860279, 27.852505966), (10.649147039, 25.102505966), (12.236860279, 22.352505966), align=None)
        with Locations((13.824573519, 25.102505966)):
            Circle(CROQUIS47_R, mode=Mode.SUBTRACT)
        Polygon((-12.236860279, 22.352505966), (-15.41228676, 22.352505966), (-17, 25.102505966), (-15.41228676, 27.852505966), (-12.236860279, 27.852505966), (-10.649147039, 25.102505966), align=None)
        with Locations(Location((-13.824573519, 25.102505966, 0), (0, 0, 131.421584744))):
            Circle(CROQUIS47_R, mode=Mode.SUBTRACT)
    extrude(amount=-CORTAR_EXTRUIR40_DEPTH, mode=Mode.SUBTRACT)

    # Croquis48 → Cortar-Extruir41 (cut)
    with BuildSketch(Plane.XY.offset(15.25).offset(CORTAR_EXTRUIR41_START)):
        with Locations((13.824573519, 25.102505966)):
            Circle(CROQUIS48_R)
        with Locations((-13.824573519, 25.102505966)):
            Circle(CROQUIS48_R)
    extrude(amount=CORTAR_EXTRUIR41_DEPTH, mode=Mode.SUBTRACT)

    # Croquis49 → Cortar-Extruir42 (cut, two sides)
    with BuildSketch(Plane.XZ.offset(-20)) as cortar_extruir42_sk:
        with Locations((-37.391633796, 1.105513491)):
            Rectangle(CROQUIS49_W, CROQUIS49_H)
    extrude(amount=CORTAR_EXTRUIR42_DEPTH, mode=Mode.SUBTRACT)
    extrude(cortar_extruir42_sk.sketch, amount=-CORTAR_EXTRUIR42_DEPTH_BACK, mode=Mode.SUBTRACT)

    # Croquis51 → Saliente-Extruir14 (add)
    with BuildSketch(Plane(origin=(0, 30, 0), x_dir=(1, 0, 0), z_dir=(0, 1, 0))):
        Circle(CROQUIS51_R)
        with Locations(Location((0, 0, 0), (0, 0, 270))):
            Circle(CROQUIS51_R_2, mode=Mode.SUBTRACT)
    extrude(amount=-SALIENTE_EXTRUIR14_DEPTH)

    # Croquis52 → Cortar-Extruir43 (cut)
    with BuildSketch(Plane(origin=(0, 0, 13.25), x_dir=(-1, 0, 0), z_dir=(0, 0, -1))):
        Polygon((-10.649147039, 25.102505966), (-12.236860279, 27.852505966), (-15.41228676, 27.852505966), (-17, 25.102505966), (-15.41228676, 22.352505966), (-12.236860279, 22.352505966), align=None)
        Polygon((17, 25.102505966), (15.41228676, 27.852505966), (12.236860279, 27.852505966), (10.649147039, 25.102505966), (12.236860279, 22.352505966), (15.41228676, 22.352505966), align=None)
    extrude(amount=CORTAR_EXTRUIR43_DEPTH, mode=Mode.SUBTRACT)

    # Croquis53 → Cortar-Extruir44 (cut)
    with BuildSketch(Plane.XY.offset(-17)):
        Polygon((3.175426481, 25), (1.58771324, 27.75), (-1.58771324, 27.75), (-3.175426481, 25), (-1.58771324, 22.25), (1.58771324, 22.25), align=None)
    extrude(amount=CORTAR_EXTRUIR44_DEPTH, mode=Mode.SUBTRACT)

    # Croquis54 → Cortar-Extruir45 (cut)
    with BuildSketch(Plane.ZY.offset(-17)):
        Polygon((-4.75, 28.175426481), (-7.5, 26.58771324), (-7.5, 23.41228676), (-4.75, 21.824573519), (-2, 23.41228676), (-2, 26.58771324), align=None)
    extrude(amount=CORTAR_EXTRUIR45_DEPTH, mode=Mode.SUBTRACT)

    # Croquis55 → Saliente-Extruir15 (add)
    with BuildSketch(Plane(origin=(0, 30, 0), x_dir=(1, 0, 0), z_dir=(0, 1, 0))):
        with BuildLine():
            Line((-7.549834435, -13.25), (-7.549834435, -15.25))
            Line((-7.549834435, -15.25), (0, -15.25))
            ThreePointArc((0, -15.25), (-3.905124838, -14.741522988), (-7.549834435, -13.25))
        make_face()
        with BuildLine():
            ThreePointArc((7.549834435, -13.25), (3.905124838, -14.741522988), (0, -15.25))
            Line((0, -15.25), (7.549834435, -15.25))
            Line((7.549834435, -15.25), (7.549834435, -13.25))
        make_face()
    extrude(amount=-SALIENTE_EXTRUIR15_DEPTH)

    # Croquis57 → Cortar-Extruir46 (cut, two sides)
    with BuildSketch(Plane.ZY.offset(27.5)) as cortar_extruir46_sk:
        with Locations((1.32598152, 23.598909176)):
            Rectangle(CROQUIS57_W, CROQUIS57_H)
    extrude(amount=CORTAR_EXTRUIR46_DEPTH, mode=Mode.SUBTRACT)
    extrude(cortar_extruir46_sk.sketch, amount=-CORTAR_EXTRUIR46_DEPTH_BACK, mode=Mode.SUBTRACT)


with BuildPart() as body_2_2_1:
    # Croquis56 → Saliente-Extruir16 (new body)
    with BuildSketch(Plane(origin=(0, 30, 0), x_dir=(1, 0, 0), z_dir=(0, 1, 0))):
        with Locations((0, 1.956478778)):
            Rectangle(CROQUIS56_W, CROQUIS56_H)
        with BuildLine():
            Line((20, -15.25), (20, 15))
            ThreePointArc((20, 15), (18.535533906, 18.535533906), (15, 20))
            Line((15, 20), (-19.993600539, 20))
            Line((-19.993600539, 20), (-19.993600539, -15.25))
            Line((-19.993600539, -15.25), (20, -15.25))
        make_face(mode=Mode.SUBTRACT)
    extrude(amount=SALIENTE_EXTRUIR16_DEPTH)

    # Croquis58 → Cortar-Extruir47 (cut)
    with BuildSketch(Plane.XZ.offset(-30)):
        with Locations(Location((-12.5, 19.25, 0), (0, 0, 270))):
            Circle(CROQUIS58_R)
        with Locations(Location((12.5, 19.25, 0), (0, 0, 270))):
            Circle(CROQUIS58_R)
        with Locations(Location((-12.5, -23.5, 0), (0, 0, 270))):
            Circle(CROQUIS58_R)
        with Locations(Location((12.5, -23.526519471, 0), (0, 0, 270))):
            Circle(CROQUIS58_R)
        with Locations(Location((-23.493600539, 10.125, 0), (0, 0, 270))):
            Circle(CROQUIS58_R)
        with Locations(Location((-23.493600539, -14.875, 0), (0, 0, 270))):
            Circle(CROQUIS58_R)
        with Locations(Location((23.493600539, -14.875, 0), (0, 0, 90))):
            Circle(CROQUIS58_R)
        with Locations(Location((23.493600539, 10.125, 0), (0, 0, 90))):
            Circle(CROQUIS58_R)
    extrude(amount=-CORTAR_EXTRUIR47_DEPTH, mode=Mode.SUBTRACT)

    # Croquis59 → Saliente-Extruir17 (add)
    with BuildSketch(Plane.XZ.offset(-30)):
        with Locations((0, -1.956478778)):
            Rectangle(CROQUIS59_W, CROQUIS59_H)
        with BuildLine():
            Line((-19.993600539, -20), (15, -20))
            ThreePointArc((15, -20), (18.535533906, -18.535533906), (20, -15))
            Line((20, -15), (20, 15.25))
            Line((20, 15.25), (-19.993600539, 15.25))
            Line((-19.993600539, 15.25), (-19.993600539, -20))
        make_face(mode=Mode.SUBTRACT)
    extrude(amount=-SALIENTE_EXTRUIR17_DEPTH)


solid = body_2_2_1.part
